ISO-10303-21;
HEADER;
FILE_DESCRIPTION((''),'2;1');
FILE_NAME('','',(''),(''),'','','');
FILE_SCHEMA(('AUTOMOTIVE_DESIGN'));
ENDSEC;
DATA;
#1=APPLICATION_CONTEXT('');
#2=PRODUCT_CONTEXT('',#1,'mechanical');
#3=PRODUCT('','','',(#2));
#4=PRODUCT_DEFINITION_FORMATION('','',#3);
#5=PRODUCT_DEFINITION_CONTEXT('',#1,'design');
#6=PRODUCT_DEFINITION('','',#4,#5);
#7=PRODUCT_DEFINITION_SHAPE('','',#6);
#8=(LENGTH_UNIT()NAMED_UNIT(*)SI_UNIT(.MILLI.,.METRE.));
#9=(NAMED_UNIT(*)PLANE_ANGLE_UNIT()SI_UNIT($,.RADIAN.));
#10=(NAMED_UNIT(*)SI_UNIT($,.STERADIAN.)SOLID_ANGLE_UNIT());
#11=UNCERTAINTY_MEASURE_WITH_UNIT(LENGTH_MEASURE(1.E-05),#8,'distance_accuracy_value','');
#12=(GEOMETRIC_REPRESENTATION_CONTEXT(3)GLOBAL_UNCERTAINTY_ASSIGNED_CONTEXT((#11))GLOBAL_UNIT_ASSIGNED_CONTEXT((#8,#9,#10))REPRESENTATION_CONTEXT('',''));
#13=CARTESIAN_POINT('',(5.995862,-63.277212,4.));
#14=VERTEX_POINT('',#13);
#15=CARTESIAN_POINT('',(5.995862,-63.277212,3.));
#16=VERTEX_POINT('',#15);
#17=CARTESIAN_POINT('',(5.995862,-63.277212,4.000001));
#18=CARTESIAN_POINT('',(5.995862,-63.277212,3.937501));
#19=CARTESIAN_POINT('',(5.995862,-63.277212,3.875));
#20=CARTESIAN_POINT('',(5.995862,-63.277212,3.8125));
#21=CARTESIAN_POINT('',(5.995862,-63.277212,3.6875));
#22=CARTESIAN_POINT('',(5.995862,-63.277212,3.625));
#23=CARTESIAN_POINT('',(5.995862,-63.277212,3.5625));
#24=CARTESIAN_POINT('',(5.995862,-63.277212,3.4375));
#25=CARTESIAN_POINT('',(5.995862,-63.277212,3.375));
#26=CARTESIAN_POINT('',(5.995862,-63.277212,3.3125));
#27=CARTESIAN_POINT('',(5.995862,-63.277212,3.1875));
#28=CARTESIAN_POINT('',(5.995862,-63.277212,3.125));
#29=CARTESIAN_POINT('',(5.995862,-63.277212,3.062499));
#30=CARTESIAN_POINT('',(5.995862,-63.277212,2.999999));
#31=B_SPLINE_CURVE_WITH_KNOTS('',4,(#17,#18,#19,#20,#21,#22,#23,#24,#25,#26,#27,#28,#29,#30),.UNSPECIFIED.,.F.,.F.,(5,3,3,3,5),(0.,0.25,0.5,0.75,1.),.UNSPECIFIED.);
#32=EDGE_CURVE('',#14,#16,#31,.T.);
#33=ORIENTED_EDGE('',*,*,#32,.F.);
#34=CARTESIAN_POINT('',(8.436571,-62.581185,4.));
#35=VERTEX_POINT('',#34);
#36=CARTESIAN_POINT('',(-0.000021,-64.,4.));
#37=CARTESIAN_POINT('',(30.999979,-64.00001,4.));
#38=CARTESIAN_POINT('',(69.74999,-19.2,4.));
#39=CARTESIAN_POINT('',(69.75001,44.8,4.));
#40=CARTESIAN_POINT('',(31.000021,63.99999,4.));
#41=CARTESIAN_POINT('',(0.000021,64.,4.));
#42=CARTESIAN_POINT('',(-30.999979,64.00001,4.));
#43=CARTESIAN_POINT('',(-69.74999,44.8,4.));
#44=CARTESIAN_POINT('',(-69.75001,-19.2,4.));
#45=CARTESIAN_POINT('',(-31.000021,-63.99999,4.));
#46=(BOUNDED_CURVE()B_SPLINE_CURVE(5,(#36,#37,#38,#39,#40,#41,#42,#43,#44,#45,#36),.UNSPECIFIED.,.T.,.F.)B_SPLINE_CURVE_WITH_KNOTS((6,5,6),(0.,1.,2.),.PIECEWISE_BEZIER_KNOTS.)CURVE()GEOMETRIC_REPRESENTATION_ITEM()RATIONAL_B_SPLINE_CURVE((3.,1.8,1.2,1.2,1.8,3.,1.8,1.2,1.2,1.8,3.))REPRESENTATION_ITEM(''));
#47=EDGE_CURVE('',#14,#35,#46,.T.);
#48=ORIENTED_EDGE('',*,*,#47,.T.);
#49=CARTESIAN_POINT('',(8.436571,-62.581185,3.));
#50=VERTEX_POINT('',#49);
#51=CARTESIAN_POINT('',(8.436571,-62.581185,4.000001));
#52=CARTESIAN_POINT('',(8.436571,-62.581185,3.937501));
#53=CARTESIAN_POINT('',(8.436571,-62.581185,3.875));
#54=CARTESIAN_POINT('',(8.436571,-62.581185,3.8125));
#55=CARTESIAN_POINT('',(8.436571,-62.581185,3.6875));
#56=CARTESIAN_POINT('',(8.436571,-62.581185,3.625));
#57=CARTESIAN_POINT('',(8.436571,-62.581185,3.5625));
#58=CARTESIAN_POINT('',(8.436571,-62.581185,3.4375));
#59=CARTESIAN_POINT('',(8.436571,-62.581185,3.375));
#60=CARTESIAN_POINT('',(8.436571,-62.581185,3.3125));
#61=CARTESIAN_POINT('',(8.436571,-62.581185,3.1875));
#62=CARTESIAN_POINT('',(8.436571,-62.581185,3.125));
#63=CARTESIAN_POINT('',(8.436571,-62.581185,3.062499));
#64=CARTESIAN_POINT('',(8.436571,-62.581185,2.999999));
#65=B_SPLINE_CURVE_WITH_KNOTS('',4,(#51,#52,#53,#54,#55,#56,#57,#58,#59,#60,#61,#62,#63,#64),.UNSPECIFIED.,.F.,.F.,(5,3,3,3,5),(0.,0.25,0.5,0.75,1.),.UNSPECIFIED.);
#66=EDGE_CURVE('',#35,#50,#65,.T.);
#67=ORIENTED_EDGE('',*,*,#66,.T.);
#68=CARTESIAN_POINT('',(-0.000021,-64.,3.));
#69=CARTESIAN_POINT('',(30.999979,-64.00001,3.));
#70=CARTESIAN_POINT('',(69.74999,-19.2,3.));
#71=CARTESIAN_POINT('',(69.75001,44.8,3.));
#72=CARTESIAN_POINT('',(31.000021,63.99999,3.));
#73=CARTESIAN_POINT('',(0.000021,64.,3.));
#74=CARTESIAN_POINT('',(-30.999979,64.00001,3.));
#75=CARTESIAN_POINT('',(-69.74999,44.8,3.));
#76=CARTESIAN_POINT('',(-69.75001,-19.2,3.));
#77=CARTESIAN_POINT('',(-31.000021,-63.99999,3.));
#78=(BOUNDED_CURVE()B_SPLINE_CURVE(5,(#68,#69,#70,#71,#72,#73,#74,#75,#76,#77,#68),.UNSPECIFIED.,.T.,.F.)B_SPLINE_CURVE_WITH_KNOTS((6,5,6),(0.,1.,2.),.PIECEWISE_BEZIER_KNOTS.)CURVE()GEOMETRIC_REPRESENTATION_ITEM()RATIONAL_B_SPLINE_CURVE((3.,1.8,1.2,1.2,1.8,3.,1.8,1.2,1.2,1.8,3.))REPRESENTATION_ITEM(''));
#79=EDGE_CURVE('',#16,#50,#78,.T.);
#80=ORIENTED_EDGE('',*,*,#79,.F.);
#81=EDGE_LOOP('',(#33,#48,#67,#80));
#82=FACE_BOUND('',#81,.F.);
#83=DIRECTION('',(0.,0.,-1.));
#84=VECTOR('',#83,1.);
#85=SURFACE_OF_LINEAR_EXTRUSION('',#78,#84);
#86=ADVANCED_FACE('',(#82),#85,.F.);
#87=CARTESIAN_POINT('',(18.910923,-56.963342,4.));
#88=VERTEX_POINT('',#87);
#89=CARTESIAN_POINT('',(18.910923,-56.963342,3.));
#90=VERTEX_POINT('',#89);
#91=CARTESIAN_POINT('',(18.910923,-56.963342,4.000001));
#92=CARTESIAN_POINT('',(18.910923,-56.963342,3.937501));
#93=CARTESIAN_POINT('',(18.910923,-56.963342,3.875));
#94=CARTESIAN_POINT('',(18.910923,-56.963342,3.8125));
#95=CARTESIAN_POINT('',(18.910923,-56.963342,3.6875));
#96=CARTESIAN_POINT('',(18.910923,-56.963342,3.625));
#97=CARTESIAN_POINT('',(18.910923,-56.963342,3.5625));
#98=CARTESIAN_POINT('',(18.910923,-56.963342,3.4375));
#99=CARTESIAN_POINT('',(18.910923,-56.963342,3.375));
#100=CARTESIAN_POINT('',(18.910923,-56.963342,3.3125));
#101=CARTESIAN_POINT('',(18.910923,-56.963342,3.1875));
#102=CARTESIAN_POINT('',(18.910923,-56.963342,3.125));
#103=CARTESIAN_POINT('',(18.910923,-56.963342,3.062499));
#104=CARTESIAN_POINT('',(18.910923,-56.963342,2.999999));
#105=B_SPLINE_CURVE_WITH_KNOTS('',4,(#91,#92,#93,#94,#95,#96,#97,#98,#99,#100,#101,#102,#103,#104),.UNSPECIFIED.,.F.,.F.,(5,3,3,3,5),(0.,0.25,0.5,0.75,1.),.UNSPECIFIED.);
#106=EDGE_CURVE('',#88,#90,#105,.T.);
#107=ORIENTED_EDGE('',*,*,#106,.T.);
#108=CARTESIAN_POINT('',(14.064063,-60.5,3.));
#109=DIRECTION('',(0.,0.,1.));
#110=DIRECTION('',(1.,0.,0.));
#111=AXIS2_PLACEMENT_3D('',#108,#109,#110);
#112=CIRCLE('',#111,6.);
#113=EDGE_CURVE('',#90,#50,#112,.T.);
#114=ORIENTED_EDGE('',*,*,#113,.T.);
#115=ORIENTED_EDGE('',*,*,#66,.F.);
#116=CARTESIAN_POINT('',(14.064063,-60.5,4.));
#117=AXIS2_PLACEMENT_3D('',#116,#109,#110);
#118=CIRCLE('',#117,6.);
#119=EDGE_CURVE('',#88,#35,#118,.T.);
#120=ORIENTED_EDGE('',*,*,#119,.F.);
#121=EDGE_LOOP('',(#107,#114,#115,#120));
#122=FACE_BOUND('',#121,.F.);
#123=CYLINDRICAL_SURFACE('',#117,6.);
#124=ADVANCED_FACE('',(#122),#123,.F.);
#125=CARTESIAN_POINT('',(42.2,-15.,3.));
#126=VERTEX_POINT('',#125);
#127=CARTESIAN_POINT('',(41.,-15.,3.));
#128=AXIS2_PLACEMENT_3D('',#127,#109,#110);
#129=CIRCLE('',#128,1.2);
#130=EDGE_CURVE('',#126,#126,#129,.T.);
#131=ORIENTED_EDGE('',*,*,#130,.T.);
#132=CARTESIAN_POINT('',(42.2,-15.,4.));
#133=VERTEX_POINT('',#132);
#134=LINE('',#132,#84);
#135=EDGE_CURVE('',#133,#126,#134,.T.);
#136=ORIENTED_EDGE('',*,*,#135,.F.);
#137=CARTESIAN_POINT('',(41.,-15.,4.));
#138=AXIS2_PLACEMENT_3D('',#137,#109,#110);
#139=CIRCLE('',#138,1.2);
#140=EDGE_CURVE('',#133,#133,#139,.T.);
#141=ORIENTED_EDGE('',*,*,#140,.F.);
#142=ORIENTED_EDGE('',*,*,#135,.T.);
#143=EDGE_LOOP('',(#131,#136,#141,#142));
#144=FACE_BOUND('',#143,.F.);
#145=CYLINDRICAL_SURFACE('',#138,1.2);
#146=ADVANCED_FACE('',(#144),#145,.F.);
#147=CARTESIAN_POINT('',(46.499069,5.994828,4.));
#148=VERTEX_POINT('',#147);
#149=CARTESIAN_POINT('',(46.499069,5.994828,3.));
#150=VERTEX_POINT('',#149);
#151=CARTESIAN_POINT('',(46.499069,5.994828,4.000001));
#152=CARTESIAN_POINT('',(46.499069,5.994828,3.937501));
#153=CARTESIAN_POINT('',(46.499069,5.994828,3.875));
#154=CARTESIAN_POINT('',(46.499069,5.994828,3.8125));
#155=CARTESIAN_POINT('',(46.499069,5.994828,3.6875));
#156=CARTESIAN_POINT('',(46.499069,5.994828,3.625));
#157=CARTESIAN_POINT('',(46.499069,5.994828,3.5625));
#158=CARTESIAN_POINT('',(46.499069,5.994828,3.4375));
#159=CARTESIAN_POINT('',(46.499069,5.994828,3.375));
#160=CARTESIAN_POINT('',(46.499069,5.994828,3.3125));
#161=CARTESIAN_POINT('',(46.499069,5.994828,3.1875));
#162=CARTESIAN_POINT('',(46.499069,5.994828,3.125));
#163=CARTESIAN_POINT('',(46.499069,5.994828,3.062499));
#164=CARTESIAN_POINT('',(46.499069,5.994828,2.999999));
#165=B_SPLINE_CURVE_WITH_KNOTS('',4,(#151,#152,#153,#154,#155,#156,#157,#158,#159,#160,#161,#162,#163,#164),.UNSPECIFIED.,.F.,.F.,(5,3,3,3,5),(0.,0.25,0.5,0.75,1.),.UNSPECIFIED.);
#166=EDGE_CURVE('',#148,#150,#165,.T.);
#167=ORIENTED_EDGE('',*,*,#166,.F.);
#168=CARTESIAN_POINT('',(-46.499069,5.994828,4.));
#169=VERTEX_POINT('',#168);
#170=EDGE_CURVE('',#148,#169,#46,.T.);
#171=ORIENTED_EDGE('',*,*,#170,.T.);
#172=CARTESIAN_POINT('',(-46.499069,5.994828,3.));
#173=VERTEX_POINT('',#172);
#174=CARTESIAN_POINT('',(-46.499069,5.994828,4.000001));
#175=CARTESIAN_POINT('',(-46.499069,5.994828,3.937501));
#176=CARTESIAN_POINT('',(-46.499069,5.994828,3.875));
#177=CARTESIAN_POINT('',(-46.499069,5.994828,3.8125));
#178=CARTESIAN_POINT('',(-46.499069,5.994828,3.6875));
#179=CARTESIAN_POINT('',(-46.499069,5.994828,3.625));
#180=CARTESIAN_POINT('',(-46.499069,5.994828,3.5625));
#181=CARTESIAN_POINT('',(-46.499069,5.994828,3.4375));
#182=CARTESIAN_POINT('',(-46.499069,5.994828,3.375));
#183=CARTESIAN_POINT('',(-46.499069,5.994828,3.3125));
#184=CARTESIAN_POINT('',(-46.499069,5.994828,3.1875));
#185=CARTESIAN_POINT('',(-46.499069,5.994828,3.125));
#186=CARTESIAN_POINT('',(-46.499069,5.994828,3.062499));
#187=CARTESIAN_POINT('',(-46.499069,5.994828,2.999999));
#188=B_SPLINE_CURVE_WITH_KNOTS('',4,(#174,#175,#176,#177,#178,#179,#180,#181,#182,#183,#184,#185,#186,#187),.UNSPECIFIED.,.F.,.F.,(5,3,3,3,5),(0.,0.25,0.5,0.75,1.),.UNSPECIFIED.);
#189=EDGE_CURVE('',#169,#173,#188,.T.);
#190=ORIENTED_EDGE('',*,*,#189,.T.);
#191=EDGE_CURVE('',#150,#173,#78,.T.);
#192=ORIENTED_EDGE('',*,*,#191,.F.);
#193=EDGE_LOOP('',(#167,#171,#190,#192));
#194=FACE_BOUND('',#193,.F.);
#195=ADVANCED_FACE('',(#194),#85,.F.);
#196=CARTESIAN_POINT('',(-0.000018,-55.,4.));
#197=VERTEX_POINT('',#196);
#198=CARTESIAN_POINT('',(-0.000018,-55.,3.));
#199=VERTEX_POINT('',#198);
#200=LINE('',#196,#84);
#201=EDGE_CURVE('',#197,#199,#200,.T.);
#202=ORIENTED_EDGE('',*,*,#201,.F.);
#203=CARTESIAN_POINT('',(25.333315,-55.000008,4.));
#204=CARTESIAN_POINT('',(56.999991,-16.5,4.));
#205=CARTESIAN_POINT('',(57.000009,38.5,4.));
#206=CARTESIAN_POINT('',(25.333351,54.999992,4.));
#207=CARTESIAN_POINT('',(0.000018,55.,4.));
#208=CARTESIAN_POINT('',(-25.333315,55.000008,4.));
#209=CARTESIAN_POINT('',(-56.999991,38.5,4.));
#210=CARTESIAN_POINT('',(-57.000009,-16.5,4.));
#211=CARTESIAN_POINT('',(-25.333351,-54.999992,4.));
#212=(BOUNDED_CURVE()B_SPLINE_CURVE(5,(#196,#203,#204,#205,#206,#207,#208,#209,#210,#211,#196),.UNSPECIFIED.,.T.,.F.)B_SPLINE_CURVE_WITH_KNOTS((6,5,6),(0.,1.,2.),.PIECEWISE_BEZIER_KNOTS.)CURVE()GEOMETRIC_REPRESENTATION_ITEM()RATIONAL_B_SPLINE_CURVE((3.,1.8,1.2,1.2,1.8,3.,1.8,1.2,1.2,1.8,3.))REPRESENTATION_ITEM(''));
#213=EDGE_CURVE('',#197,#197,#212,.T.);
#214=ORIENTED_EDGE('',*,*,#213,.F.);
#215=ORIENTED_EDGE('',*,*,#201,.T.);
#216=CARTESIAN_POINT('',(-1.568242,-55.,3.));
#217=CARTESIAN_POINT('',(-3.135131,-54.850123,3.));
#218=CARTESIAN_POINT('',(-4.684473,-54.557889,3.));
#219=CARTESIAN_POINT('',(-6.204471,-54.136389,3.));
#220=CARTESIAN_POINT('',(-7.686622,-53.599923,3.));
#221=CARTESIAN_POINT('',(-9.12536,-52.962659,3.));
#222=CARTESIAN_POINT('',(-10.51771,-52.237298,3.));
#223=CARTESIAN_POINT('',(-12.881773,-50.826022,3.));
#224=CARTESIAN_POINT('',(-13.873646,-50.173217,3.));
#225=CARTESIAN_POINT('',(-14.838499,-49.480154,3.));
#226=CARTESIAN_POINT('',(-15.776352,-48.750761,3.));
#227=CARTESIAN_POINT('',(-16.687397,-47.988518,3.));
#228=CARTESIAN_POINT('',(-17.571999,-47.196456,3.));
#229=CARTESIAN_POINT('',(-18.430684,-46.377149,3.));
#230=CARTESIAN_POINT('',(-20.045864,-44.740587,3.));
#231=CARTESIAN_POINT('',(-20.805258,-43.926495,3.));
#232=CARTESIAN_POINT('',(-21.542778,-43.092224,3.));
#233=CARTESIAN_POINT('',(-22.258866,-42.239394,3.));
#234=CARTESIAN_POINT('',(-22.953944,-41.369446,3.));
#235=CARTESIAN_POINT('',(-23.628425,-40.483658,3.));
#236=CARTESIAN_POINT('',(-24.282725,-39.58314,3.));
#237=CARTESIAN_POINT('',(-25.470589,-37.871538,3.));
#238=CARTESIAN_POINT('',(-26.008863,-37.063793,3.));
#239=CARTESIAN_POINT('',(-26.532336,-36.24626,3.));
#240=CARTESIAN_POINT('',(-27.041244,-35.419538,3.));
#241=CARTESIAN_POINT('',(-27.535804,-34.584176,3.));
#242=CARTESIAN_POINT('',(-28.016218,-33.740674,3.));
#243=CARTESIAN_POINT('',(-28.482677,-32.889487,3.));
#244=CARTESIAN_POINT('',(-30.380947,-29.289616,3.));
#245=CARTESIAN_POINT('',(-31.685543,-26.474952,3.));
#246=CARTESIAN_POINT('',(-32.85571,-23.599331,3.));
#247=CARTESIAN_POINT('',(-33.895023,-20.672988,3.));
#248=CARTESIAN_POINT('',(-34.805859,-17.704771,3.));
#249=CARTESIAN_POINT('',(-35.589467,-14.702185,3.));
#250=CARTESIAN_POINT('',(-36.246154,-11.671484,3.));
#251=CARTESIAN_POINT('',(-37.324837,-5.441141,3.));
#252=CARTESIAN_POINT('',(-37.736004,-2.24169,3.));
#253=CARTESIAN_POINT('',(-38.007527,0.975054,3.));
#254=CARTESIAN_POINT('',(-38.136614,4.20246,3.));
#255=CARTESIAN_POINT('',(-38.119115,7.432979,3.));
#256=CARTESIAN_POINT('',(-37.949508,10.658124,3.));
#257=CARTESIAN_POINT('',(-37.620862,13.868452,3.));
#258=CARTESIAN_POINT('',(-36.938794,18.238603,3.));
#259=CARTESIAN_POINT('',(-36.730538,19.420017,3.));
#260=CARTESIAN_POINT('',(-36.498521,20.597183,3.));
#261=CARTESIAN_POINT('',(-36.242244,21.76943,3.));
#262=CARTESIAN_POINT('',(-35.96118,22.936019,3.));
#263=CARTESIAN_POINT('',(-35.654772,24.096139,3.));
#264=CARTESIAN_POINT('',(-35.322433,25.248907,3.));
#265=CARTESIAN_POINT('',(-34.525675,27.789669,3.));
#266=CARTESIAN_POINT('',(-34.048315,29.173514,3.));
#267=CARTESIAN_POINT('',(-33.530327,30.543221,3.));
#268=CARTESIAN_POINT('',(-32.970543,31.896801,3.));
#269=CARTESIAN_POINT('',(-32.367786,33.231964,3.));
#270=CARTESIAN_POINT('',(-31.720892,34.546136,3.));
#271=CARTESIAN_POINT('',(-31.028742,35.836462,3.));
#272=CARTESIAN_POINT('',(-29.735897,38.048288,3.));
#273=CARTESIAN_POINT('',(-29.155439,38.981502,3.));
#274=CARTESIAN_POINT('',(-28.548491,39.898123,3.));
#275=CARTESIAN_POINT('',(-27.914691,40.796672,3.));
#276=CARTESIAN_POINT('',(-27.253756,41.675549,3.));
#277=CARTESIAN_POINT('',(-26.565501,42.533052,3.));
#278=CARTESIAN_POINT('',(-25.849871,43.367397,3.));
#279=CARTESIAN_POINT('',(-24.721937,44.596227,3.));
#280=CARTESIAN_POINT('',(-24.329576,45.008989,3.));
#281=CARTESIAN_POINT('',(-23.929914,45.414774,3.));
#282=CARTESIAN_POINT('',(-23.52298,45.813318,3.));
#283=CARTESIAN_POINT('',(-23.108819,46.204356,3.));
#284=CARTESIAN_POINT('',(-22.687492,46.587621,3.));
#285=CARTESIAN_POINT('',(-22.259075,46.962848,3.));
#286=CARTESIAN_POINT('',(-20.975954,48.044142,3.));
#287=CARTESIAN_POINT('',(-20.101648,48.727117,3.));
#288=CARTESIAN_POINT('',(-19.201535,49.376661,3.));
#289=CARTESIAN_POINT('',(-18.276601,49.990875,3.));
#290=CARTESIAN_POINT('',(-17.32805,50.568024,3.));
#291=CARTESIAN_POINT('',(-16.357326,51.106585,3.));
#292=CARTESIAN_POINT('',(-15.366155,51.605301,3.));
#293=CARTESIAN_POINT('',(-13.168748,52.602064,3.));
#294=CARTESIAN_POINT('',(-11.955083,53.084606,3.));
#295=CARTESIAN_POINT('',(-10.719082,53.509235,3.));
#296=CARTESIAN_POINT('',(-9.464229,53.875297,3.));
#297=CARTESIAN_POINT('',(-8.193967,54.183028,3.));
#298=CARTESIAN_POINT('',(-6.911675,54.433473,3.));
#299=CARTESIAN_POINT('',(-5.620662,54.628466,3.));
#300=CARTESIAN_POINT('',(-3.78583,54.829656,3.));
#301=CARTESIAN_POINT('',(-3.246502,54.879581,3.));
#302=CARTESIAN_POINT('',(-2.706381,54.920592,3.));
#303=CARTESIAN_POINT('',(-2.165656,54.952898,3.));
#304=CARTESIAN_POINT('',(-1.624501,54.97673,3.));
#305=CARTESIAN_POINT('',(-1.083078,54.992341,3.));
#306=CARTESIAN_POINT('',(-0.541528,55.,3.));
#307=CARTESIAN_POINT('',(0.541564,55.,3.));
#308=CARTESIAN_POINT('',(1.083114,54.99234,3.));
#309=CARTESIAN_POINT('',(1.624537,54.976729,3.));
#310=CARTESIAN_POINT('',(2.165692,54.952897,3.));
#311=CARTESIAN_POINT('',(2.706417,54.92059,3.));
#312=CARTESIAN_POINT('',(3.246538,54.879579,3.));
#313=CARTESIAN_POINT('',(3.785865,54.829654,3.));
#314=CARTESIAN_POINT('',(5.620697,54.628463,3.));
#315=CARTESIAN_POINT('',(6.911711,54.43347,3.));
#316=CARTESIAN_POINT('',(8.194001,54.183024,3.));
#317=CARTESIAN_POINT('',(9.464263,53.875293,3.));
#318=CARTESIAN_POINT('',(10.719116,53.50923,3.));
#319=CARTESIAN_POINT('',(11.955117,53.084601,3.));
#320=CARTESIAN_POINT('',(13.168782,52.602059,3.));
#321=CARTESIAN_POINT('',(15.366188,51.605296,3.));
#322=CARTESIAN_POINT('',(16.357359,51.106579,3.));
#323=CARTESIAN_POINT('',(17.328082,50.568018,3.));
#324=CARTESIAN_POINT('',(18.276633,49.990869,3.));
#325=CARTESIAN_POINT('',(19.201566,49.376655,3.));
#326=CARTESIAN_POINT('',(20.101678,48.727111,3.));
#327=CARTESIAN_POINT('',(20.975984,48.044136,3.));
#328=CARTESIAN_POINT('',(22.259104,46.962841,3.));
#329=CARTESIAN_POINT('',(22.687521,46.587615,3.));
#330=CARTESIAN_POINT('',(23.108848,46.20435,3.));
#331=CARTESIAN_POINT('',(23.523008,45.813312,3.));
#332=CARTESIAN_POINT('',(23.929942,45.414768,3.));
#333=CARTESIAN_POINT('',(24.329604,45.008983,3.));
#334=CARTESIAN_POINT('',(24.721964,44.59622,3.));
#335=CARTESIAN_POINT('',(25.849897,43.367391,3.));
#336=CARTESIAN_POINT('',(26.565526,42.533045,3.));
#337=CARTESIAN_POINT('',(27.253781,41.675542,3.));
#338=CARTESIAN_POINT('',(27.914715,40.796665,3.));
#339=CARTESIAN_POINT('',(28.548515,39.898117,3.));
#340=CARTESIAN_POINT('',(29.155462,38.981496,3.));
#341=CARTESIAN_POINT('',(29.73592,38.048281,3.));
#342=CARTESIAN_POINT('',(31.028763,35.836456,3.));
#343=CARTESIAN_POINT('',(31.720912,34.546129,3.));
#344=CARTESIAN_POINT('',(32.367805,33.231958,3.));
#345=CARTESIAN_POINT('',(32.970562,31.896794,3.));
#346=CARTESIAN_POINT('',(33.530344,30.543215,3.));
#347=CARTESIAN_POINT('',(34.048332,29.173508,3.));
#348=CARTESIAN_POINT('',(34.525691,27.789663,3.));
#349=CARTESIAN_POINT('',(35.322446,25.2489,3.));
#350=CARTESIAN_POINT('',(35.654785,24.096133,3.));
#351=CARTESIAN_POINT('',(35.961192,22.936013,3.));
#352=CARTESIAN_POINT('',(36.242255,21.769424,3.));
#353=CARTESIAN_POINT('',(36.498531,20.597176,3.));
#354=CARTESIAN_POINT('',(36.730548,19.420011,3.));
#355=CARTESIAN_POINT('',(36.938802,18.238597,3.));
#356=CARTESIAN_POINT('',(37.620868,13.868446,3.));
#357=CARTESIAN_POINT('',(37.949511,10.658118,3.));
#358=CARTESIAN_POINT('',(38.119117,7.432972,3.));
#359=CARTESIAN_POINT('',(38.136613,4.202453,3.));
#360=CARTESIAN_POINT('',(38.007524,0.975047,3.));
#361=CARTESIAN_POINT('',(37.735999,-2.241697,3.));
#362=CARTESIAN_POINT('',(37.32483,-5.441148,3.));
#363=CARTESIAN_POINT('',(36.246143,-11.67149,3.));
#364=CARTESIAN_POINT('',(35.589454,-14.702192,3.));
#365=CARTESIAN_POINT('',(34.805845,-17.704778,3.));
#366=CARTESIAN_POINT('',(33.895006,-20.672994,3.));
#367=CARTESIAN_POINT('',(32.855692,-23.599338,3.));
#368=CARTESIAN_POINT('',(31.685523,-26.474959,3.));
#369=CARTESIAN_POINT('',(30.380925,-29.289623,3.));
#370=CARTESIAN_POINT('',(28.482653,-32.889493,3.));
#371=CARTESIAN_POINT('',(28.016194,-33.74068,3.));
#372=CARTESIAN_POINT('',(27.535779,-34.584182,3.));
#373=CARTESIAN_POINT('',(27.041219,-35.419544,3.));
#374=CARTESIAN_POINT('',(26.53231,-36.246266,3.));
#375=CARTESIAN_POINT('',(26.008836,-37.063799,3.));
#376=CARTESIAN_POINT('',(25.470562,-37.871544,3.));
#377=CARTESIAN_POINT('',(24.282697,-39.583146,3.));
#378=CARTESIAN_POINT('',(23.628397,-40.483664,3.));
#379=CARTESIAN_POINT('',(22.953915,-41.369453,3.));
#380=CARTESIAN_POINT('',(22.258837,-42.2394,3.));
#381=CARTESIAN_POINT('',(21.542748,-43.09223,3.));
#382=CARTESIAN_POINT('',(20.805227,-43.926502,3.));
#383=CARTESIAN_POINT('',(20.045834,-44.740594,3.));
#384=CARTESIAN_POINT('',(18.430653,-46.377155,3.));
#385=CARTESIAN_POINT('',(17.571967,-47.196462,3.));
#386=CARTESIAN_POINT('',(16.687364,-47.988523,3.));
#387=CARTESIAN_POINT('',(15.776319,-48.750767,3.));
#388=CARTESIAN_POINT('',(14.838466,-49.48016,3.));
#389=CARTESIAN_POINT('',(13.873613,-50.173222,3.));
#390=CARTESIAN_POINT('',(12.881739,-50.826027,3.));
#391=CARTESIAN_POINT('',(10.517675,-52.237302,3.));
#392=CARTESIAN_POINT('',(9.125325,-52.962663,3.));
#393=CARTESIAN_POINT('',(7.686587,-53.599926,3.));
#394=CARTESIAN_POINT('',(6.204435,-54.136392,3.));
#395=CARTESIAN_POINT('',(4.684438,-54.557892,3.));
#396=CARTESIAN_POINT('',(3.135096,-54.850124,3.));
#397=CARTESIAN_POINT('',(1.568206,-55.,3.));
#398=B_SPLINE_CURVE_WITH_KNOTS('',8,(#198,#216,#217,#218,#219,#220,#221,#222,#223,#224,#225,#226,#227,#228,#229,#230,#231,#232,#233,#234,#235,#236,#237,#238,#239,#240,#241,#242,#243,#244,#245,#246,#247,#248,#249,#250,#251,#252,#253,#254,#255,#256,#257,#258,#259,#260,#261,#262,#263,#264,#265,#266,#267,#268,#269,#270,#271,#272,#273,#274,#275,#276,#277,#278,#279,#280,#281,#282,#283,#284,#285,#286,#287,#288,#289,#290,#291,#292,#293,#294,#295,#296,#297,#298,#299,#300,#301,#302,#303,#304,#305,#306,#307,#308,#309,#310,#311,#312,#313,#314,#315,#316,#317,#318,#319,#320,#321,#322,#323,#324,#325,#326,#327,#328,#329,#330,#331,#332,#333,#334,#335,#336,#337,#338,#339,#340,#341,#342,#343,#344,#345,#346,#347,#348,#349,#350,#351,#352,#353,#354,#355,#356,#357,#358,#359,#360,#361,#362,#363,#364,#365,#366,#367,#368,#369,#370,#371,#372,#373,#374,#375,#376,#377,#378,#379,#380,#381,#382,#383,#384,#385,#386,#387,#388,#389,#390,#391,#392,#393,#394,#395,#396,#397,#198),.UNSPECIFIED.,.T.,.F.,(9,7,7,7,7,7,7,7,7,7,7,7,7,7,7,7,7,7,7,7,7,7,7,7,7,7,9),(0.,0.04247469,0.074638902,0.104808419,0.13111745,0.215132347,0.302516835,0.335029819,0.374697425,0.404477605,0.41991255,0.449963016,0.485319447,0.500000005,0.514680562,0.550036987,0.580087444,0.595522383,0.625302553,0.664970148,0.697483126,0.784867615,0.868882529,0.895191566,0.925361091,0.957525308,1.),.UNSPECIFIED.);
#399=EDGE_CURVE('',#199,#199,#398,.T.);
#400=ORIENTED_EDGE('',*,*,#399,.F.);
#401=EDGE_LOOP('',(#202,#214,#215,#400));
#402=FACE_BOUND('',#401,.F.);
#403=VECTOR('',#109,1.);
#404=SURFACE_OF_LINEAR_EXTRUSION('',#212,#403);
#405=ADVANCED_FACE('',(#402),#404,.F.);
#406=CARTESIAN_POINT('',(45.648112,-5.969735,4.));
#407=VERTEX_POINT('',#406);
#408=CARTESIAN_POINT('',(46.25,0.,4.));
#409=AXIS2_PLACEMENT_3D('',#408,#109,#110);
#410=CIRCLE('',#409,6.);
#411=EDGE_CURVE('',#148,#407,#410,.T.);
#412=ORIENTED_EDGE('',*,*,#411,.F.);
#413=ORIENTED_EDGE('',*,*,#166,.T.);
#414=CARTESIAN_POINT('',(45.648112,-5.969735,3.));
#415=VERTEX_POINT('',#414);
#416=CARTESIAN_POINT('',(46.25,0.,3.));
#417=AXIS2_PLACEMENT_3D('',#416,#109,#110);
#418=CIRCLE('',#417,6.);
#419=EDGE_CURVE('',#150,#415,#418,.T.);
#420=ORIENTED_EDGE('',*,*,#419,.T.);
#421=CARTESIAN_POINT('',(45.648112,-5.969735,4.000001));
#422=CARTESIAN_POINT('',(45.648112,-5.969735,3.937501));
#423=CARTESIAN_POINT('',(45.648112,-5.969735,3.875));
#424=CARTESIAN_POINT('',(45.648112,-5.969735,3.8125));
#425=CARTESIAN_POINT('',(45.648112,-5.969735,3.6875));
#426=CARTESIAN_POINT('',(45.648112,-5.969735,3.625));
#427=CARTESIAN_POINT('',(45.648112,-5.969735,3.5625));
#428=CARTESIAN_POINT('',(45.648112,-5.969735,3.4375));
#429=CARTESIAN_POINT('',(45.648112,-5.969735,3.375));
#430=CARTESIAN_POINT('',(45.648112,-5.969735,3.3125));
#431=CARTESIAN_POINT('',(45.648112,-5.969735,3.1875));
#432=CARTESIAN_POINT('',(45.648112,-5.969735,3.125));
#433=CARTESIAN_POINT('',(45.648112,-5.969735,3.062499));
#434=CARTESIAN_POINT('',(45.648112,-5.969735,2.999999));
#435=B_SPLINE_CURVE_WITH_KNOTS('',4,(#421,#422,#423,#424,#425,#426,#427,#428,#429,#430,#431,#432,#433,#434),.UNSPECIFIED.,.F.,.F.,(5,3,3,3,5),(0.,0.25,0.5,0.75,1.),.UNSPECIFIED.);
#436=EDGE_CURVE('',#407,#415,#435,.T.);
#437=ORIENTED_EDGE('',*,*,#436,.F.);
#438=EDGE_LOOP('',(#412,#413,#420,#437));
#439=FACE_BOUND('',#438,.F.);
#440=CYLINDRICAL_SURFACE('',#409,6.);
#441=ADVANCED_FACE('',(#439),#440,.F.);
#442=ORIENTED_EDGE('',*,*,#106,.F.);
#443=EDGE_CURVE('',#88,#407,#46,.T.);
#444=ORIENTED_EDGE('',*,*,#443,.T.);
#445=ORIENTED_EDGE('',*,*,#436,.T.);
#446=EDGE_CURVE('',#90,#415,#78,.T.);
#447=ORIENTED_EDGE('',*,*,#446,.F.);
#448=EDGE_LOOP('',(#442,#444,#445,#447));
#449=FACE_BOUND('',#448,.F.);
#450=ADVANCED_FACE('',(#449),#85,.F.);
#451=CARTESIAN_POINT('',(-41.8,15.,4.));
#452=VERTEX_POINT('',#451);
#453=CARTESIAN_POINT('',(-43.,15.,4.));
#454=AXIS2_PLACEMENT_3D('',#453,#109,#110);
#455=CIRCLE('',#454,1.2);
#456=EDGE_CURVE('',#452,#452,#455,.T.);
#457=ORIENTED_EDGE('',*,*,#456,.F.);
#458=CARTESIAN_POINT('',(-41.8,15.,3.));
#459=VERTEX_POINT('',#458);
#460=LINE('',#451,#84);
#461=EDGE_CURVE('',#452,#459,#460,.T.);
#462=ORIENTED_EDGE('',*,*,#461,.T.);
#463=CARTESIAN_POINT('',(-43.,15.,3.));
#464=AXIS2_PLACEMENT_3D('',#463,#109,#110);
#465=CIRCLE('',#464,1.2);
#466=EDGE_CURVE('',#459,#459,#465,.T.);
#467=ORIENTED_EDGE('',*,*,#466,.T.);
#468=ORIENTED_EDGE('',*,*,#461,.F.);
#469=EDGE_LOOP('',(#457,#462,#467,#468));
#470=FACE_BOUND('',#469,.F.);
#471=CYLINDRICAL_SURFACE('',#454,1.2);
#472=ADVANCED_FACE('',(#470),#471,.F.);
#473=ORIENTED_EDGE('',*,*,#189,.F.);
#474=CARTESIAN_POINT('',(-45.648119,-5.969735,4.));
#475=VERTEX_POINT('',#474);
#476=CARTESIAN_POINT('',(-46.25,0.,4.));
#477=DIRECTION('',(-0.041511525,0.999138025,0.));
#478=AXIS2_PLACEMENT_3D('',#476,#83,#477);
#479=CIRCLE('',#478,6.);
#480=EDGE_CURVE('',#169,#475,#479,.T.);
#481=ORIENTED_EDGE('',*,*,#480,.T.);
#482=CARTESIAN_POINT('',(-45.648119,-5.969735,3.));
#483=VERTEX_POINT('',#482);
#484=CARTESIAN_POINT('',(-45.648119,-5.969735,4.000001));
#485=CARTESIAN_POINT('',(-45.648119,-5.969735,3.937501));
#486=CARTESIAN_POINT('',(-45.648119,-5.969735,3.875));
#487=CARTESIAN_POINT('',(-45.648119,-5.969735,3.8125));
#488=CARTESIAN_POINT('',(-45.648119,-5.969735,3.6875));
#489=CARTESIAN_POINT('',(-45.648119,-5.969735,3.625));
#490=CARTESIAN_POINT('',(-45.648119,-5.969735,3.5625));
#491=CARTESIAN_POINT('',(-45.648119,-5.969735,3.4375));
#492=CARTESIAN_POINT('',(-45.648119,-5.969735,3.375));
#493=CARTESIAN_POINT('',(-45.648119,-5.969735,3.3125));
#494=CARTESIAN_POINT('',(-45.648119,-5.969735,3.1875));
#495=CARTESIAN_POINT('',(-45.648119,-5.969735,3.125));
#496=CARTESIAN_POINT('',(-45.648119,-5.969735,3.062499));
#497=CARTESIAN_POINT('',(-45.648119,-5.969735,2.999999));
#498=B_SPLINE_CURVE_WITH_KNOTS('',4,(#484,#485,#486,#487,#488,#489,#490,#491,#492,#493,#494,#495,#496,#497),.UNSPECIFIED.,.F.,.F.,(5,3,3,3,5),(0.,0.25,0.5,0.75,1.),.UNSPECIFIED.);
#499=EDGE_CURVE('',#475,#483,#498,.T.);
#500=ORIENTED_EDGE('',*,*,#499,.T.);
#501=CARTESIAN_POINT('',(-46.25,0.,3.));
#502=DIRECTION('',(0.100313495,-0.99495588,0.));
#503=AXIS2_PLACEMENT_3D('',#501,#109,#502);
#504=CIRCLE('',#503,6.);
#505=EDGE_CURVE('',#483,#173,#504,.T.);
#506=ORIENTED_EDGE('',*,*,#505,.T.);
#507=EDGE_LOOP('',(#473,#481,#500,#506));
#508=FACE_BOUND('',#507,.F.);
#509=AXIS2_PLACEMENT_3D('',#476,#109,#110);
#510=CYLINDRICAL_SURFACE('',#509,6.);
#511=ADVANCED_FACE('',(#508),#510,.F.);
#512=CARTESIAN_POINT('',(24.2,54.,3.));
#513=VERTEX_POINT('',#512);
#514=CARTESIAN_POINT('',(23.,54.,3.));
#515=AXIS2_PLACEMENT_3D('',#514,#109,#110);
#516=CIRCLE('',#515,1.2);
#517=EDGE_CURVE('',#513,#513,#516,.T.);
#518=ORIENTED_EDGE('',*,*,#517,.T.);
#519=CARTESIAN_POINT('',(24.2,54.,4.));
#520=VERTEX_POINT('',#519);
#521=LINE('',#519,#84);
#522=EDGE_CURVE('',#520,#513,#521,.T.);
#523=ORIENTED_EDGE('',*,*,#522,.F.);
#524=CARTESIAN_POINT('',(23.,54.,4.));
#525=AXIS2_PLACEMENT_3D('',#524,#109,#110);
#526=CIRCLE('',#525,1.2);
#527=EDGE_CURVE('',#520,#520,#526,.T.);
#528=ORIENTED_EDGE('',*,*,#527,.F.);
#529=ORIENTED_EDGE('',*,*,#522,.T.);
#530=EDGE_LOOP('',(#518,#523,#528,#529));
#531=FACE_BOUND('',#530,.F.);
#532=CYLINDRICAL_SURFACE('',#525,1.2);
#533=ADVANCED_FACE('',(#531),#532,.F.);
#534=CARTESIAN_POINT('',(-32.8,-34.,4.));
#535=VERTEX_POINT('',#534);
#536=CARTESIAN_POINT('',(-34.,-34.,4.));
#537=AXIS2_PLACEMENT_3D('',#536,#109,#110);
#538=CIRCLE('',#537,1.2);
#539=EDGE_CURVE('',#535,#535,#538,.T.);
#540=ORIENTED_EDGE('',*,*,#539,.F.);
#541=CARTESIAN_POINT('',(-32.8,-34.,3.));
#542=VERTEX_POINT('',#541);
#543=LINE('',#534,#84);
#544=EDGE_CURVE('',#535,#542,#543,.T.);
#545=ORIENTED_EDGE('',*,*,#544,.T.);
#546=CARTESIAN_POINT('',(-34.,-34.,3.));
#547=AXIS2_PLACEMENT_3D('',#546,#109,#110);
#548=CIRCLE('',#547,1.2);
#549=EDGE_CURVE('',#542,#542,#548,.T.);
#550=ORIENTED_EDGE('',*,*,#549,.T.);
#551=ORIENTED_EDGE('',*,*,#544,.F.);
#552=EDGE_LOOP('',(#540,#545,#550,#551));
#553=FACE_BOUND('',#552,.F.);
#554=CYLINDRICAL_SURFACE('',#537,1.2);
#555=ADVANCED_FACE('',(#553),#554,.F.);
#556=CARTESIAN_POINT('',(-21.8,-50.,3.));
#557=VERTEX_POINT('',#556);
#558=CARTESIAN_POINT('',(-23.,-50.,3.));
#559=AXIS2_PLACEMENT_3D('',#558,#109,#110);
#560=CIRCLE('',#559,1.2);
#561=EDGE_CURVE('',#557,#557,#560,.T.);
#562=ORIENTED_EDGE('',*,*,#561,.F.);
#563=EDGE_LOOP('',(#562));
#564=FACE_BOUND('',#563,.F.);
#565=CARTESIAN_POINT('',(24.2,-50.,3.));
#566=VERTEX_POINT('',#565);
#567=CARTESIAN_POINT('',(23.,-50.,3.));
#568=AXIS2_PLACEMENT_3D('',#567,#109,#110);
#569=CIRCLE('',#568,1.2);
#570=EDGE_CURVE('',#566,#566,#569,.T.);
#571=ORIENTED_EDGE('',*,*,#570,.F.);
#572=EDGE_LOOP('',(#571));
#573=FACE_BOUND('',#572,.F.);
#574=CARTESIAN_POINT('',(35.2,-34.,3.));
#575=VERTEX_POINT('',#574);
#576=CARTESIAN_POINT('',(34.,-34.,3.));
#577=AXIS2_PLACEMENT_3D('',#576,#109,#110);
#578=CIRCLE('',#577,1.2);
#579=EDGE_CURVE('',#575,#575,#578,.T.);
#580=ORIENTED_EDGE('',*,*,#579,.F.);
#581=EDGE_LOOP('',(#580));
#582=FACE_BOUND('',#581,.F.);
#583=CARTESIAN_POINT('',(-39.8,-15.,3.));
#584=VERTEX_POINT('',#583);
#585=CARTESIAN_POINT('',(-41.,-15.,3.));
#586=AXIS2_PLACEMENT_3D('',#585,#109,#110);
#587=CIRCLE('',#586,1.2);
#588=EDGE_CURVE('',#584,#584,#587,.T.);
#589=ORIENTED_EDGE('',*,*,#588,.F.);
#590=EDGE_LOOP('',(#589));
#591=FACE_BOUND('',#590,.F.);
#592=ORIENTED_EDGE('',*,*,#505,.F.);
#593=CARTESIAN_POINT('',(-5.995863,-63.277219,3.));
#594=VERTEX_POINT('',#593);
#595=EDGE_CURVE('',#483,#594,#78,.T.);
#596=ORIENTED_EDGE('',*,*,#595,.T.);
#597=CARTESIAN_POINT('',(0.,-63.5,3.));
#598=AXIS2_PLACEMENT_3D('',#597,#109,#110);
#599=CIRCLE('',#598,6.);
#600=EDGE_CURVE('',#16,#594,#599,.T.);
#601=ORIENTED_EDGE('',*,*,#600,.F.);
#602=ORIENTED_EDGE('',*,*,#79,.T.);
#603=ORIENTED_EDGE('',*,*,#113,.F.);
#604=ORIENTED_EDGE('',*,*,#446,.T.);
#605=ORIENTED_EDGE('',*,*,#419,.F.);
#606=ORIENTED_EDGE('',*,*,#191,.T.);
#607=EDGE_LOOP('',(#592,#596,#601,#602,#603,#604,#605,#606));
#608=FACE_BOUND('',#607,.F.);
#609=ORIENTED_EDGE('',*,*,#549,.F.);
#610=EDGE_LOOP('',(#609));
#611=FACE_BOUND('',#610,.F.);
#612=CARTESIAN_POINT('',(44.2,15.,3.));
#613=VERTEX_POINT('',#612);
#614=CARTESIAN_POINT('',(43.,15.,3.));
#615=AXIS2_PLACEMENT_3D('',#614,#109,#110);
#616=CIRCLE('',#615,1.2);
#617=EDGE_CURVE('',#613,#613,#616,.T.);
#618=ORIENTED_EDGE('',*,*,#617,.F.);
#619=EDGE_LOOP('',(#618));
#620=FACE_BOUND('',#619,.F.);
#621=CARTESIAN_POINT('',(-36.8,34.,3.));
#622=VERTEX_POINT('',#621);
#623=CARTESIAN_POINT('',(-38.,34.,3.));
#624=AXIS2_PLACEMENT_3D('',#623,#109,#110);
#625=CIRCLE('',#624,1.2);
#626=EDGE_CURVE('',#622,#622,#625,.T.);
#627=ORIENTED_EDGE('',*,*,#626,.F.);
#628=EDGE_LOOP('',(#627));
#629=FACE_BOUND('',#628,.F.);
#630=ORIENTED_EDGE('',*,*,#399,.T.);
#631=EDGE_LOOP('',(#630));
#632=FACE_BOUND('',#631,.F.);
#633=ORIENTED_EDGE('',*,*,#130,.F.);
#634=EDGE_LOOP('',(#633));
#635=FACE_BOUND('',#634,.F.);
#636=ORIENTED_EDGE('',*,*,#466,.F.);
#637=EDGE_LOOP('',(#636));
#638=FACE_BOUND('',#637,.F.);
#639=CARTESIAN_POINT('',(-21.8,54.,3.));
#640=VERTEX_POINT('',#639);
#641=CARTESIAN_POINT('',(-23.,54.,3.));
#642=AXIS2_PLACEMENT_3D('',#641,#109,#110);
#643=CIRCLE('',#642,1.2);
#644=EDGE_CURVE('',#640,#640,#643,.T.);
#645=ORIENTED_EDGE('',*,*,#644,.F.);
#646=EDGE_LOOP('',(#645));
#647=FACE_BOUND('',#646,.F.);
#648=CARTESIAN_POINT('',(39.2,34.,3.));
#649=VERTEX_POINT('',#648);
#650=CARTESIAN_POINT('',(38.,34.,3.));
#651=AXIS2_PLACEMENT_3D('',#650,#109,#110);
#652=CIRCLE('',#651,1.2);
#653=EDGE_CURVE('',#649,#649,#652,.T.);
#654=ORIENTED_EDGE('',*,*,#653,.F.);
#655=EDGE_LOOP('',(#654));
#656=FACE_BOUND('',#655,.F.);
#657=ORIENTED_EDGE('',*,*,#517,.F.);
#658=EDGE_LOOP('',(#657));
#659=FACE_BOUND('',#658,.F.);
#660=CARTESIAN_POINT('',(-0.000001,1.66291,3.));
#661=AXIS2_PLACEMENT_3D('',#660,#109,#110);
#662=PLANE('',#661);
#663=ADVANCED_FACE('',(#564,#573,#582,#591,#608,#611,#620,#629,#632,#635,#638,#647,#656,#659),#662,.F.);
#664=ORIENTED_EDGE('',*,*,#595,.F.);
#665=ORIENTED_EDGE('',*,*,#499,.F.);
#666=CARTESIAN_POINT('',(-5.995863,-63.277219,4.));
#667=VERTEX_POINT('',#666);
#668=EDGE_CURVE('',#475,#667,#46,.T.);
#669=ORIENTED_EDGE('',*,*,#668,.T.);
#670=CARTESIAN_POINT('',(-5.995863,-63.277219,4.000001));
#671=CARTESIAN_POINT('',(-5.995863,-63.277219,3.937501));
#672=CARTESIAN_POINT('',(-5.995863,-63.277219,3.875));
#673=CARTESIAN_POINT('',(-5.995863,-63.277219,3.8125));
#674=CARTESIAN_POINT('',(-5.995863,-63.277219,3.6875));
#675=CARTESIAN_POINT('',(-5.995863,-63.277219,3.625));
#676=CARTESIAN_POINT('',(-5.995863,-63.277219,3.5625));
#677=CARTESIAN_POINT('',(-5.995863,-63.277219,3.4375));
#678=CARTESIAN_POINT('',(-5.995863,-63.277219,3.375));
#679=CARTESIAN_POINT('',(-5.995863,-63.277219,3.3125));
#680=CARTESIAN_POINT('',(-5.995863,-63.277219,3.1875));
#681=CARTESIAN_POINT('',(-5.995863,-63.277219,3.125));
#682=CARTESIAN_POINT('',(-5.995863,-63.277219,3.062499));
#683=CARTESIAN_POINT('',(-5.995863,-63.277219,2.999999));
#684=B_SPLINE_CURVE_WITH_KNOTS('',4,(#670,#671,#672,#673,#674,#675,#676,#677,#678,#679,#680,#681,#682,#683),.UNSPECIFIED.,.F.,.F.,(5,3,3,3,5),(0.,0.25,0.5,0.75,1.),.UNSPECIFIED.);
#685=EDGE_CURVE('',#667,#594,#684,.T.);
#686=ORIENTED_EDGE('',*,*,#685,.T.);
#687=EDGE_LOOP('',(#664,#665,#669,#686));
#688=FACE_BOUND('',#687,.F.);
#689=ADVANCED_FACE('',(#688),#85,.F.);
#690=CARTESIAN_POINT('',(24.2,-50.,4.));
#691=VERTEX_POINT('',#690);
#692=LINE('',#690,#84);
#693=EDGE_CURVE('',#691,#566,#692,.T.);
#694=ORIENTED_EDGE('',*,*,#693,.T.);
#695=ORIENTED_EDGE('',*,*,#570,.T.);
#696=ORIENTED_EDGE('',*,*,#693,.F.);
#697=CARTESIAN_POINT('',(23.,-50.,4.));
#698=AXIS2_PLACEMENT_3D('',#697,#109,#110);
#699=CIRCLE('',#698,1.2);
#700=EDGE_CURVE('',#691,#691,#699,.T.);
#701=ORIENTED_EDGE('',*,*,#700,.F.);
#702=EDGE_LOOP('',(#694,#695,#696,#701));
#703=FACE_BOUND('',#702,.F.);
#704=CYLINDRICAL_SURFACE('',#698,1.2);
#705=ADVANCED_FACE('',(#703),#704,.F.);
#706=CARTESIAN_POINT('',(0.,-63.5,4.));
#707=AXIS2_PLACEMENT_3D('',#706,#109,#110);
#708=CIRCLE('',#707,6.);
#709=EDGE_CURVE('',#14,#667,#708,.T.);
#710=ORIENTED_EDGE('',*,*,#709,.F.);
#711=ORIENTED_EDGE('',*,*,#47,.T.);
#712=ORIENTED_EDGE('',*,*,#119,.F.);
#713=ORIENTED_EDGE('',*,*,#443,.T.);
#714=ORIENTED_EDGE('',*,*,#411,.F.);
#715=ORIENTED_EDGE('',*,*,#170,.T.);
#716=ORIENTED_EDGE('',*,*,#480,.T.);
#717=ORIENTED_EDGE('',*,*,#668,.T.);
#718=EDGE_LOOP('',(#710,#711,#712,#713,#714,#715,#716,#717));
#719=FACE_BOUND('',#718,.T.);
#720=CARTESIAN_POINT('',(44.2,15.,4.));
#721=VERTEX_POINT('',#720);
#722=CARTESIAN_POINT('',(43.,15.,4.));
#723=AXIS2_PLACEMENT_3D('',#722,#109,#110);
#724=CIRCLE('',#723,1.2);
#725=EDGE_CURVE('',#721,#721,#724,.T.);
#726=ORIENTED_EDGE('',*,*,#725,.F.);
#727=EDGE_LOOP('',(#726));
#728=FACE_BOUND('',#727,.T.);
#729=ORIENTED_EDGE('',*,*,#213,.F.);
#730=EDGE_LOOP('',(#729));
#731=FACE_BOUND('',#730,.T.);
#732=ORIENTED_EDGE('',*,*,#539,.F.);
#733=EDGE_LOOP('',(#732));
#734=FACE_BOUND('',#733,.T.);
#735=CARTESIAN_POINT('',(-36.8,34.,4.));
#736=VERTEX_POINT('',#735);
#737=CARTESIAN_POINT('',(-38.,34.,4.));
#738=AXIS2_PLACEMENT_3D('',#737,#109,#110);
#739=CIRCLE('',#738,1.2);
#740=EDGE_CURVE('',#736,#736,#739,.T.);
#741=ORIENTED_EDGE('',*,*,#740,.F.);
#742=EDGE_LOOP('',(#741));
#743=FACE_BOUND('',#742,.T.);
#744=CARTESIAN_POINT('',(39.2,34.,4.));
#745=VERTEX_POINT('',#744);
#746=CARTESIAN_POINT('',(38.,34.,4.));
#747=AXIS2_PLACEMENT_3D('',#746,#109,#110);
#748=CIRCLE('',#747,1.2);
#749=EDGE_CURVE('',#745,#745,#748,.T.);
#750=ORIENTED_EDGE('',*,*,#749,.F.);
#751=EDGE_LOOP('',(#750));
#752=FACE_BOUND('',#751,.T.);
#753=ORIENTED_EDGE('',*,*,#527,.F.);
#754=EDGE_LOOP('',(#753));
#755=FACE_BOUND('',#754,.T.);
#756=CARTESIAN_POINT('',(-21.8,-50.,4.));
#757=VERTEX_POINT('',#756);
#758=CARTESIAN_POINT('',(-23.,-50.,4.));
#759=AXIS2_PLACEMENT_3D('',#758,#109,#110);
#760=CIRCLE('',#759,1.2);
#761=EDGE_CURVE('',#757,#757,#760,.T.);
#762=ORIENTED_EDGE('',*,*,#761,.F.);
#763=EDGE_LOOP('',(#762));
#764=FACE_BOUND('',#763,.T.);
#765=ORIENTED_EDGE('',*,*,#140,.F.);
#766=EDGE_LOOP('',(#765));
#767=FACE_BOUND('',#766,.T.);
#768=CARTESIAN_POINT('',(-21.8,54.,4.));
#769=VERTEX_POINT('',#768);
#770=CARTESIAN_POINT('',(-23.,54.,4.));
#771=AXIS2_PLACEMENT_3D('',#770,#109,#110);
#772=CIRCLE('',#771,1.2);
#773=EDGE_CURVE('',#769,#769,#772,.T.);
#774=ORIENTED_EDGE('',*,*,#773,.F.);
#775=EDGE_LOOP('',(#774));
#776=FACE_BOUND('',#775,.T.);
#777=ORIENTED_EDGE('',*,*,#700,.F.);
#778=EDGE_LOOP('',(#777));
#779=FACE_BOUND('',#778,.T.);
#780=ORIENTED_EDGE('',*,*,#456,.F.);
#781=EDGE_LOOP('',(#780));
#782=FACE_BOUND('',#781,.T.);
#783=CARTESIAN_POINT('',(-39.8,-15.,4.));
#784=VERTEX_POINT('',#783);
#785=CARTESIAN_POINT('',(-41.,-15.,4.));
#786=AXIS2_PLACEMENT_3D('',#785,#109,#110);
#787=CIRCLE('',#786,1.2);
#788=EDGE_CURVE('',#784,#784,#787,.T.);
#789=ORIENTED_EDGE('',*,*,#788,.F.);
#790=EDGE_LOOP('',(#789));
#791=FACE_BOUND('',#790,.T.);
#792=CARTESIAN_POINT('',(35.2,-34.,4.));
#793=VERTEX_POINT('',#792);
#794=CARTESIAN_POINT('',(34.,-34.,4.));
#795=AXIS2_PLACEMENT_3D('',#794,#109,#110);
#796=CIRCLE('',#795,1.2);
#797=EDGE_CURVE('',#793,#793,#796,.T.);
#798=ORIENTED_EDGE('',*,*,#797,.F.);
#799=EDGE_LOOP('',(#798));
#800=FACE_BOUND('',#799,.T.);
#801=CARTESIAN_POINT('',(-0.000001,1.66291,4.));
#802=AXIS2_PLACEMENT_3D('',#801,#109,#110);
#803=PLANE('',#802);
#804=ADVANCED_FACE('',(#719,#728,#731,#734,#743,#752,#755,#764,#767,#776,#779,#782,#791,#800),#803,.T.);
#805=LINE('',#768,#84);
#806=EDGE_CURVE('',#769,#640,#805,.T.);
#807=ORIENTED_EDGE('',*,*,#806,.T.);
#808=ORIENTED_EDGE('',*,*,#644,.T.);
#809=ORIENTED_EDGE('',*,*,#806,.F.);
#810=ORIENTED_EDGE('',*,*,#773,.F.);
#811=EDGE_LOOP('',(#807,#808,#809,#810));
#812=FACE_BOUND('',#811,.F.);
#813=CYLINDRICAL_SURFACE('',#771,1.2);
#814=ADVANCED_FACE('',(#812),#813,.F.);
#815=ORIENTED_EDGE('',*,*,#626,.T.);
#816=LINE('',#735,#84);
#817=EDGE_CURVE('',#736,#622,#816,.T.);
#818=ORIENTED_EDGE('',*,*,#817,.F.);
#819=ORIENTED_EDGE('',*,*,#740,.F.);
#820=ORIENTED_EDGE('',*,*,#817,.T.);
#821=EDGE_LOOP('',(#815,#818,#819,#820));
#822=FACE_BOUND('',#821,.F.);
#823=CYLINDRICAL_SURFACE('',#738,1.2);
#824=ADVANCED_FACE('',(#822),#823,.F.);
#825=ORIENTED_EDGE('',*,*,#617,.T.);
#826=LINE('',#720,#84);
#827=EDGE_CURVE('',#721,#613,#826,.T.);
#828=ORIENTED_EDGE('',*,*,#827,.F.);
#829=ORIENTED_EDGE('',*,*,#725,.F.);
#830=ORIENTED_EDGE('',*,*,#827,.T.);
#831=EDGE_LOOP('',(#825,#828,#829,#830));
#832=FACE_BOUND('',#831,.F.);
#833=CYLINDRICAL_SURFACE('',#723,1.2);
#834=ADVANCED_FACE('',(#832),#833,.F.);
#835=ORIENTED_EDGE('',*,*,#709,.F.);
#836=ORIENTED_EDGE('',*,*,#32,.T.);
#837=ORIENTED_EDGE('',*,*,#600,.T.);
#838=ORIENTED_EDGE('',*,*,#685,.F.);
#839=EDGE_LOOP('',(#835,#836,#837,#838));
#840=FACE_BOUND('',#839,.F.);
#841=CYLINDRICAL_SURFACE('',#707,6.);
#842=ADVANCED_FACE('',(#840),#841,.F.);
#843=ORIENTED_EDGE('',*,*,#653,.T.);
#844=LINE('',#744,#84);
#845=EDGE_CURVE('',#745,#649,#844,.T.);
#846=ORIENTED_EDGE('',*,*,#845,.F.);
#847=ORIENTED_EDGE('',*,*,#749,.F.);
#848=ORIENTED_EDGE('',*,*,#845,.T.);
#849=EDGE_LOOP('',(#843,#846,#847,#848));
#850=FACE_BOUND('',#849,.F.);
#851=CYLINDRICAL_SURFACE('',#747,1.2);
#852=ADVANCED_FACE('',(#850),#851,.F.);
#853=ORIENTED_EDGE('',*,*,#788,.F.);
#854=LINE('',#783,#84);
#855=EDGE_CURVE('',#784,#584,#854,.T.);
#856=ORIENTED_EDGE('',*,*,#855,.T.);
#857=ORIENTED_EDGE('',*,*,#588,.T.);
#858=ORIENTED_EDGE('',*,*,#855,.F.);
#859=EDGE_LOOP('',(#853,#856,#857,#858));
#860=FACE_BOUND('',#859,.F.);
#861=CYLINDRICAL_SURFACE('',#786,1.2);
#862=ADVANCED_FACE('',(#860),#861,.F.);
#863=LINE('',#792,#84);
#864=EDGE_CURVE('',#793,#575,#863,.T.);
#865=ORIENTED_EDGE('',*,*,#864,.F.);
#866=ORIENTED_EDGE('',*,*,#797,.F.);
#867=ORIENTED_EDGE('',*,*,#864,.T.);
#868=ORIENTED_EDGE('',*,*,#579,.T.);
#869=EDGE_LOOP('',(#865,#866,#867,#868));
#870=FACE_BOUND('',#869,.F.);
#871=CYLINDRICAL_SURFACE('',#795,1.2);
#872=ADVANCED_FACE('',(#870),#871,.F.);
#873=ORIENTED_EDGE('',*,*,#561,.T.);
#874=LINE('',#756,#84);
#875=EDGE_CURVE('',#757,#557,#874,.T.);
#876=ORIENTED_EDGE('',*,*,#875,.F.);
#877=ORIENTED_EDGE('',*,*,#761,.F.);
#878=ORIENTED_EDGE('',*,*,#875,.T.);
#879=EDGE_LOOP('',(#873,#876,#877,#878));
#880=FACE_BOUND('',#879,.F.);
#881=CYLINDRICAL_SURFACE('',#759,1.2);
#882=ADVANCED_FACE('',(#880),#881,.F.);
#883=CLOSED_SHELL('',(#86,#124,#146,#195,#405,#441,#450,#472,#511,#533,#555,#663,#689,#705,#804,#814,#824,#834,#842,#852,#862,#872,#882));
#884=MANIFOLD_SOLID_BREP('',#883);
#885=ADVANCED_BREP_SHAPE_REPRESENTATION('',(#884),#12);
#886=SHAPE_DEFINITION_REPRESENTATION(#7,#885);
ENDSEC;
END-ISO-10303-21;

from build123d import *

# Parameters (mm, degrees)
PAD004_DEPTH    = 1
SKETCH011_R     = 6
POCKET005_DEPTH = 5
SKETCH012_R     = 1.2
HOLE001_DEPTH   = 25
POCKET010_DEPTH = 1.001


with BuildPart() as part:
    # Sketch010 → Pad004 (new body)
    with BuildSketch(Plane.XY):
        with BuildLine():
            add(Edge.make_bspline(
                [(-2.1e-05, -64), (30.999979, -64.00001), (69.74999, -19.2), (69.75001, 44.8), (31.000021, 63.99999), (2.1e-05, 64), (-30.999979, 64.00001), (-69.74999, 44.8), (-69.75001, -19.2), (-31.000021, -63.99999), (-2.1e-05, -64)],
                knots=[0, 0, 0, 0, 0, 0, 1, 1, 1, 1, 1, 2, 2, 2, 2, 2, 2], degree=5, weights=[3, 1.8, 1.2, 1.2, 1.8, 3, 1.8, 1.2, 1.2, 1.8, 3]))
        make_face()
    extrude(amount=PAD004_DEPTH)

    # Sketch011 (on Face3 of Pad004) → Pocket005 (cut)
    with BuildSketch(Plane.XY.offset(1)):
        with Locations((-46.25, 0)):
            Circle(SKETCH011_R)
        with Locations((46.25, 0)):
            Circle(SKETCH011_R)
        with Locations((0, -63.5)):
            Circle(SKETCH011_R)
        with Locations((14.064063, -60.5)):
            Circle(SKETCH011_R)
    extrude(amount=-POCKET005_DEPTH, mode=Mode.SUBTRACT)

    # Sketch012 (on Face4 of Pocket005) → Hole001 (cut)
    with BuildSketch(Plane.XY.offset(1)):
        with Locations((-41, -15)):
            Circle(SKETCH012_R)
        with Locations((41, -15)):
            Circle(SKETCH012_R)
        with Locations((-23, -50)):
            Circle(SKETCH012_R)
        with Locations((23, -50)):
            Circle(SKETCH012_R)
        with Locations((-43, 15)):
            Circle(SKETCH012_R)
        with Locations((43, 15)):
            Circle(SKETCH012_R)
        with Locations((-23, 54)):
            Circle(SKETCH012_R)
        with Locations((23, 54)):
            Circle(SKETCH012_R)
        with Locations((-34, -34)):
            Circle(SKETCH012_R)
        with Locations((34, -34)):
            Circle(SKETCH012_R)
        with Locations((-38, 34)):
            Circle(SKETCH012_R)
        with Locations((38, 34)):
            Circle(SKETCH012_R)
    extrude(amount=-HOLE001_DEPTH, mode=Mode.SUBTRACT)

    # Sketch013 (on Face4 of Hole001) → Pocket010 (cut, through all)
    with BuildSketch(Plane.XY.offset(1)):
        with BuildLine():
            add(Edge.make_bspline(
                [(-1.8e-05, -55), (25.333315, -55.000008), (56.999991, -16.5), (57.000009, 38.5), (25.333351, 54.999992), (1.8e-05, 55), (-25.333315, 55.000008), (-56.999991, 38.5), (-57.000009, -16.5), (-25.333351, -54.999992), (-1.8e-05, -55)],
                knots=[0, 0, 0, 0, 0, 0, 1, 1, 1, 1, 1, 2, 2, 2, 2, 2, 2], degree=5, weights=[3, 1.8, 1.2, 1.2, 1.8, 3, 1.8, 1.2, 1.2, 1.8, 3]))
        make_face()
    extrude(amount=-POCKET010_DEPTH, mode=Mode.SUBTRACT)


with BuildPart() as part_1:
    # Body003 placement: moved
    add(part.part.moved(Location((0, 0, 3))))


solid = part_1.part
